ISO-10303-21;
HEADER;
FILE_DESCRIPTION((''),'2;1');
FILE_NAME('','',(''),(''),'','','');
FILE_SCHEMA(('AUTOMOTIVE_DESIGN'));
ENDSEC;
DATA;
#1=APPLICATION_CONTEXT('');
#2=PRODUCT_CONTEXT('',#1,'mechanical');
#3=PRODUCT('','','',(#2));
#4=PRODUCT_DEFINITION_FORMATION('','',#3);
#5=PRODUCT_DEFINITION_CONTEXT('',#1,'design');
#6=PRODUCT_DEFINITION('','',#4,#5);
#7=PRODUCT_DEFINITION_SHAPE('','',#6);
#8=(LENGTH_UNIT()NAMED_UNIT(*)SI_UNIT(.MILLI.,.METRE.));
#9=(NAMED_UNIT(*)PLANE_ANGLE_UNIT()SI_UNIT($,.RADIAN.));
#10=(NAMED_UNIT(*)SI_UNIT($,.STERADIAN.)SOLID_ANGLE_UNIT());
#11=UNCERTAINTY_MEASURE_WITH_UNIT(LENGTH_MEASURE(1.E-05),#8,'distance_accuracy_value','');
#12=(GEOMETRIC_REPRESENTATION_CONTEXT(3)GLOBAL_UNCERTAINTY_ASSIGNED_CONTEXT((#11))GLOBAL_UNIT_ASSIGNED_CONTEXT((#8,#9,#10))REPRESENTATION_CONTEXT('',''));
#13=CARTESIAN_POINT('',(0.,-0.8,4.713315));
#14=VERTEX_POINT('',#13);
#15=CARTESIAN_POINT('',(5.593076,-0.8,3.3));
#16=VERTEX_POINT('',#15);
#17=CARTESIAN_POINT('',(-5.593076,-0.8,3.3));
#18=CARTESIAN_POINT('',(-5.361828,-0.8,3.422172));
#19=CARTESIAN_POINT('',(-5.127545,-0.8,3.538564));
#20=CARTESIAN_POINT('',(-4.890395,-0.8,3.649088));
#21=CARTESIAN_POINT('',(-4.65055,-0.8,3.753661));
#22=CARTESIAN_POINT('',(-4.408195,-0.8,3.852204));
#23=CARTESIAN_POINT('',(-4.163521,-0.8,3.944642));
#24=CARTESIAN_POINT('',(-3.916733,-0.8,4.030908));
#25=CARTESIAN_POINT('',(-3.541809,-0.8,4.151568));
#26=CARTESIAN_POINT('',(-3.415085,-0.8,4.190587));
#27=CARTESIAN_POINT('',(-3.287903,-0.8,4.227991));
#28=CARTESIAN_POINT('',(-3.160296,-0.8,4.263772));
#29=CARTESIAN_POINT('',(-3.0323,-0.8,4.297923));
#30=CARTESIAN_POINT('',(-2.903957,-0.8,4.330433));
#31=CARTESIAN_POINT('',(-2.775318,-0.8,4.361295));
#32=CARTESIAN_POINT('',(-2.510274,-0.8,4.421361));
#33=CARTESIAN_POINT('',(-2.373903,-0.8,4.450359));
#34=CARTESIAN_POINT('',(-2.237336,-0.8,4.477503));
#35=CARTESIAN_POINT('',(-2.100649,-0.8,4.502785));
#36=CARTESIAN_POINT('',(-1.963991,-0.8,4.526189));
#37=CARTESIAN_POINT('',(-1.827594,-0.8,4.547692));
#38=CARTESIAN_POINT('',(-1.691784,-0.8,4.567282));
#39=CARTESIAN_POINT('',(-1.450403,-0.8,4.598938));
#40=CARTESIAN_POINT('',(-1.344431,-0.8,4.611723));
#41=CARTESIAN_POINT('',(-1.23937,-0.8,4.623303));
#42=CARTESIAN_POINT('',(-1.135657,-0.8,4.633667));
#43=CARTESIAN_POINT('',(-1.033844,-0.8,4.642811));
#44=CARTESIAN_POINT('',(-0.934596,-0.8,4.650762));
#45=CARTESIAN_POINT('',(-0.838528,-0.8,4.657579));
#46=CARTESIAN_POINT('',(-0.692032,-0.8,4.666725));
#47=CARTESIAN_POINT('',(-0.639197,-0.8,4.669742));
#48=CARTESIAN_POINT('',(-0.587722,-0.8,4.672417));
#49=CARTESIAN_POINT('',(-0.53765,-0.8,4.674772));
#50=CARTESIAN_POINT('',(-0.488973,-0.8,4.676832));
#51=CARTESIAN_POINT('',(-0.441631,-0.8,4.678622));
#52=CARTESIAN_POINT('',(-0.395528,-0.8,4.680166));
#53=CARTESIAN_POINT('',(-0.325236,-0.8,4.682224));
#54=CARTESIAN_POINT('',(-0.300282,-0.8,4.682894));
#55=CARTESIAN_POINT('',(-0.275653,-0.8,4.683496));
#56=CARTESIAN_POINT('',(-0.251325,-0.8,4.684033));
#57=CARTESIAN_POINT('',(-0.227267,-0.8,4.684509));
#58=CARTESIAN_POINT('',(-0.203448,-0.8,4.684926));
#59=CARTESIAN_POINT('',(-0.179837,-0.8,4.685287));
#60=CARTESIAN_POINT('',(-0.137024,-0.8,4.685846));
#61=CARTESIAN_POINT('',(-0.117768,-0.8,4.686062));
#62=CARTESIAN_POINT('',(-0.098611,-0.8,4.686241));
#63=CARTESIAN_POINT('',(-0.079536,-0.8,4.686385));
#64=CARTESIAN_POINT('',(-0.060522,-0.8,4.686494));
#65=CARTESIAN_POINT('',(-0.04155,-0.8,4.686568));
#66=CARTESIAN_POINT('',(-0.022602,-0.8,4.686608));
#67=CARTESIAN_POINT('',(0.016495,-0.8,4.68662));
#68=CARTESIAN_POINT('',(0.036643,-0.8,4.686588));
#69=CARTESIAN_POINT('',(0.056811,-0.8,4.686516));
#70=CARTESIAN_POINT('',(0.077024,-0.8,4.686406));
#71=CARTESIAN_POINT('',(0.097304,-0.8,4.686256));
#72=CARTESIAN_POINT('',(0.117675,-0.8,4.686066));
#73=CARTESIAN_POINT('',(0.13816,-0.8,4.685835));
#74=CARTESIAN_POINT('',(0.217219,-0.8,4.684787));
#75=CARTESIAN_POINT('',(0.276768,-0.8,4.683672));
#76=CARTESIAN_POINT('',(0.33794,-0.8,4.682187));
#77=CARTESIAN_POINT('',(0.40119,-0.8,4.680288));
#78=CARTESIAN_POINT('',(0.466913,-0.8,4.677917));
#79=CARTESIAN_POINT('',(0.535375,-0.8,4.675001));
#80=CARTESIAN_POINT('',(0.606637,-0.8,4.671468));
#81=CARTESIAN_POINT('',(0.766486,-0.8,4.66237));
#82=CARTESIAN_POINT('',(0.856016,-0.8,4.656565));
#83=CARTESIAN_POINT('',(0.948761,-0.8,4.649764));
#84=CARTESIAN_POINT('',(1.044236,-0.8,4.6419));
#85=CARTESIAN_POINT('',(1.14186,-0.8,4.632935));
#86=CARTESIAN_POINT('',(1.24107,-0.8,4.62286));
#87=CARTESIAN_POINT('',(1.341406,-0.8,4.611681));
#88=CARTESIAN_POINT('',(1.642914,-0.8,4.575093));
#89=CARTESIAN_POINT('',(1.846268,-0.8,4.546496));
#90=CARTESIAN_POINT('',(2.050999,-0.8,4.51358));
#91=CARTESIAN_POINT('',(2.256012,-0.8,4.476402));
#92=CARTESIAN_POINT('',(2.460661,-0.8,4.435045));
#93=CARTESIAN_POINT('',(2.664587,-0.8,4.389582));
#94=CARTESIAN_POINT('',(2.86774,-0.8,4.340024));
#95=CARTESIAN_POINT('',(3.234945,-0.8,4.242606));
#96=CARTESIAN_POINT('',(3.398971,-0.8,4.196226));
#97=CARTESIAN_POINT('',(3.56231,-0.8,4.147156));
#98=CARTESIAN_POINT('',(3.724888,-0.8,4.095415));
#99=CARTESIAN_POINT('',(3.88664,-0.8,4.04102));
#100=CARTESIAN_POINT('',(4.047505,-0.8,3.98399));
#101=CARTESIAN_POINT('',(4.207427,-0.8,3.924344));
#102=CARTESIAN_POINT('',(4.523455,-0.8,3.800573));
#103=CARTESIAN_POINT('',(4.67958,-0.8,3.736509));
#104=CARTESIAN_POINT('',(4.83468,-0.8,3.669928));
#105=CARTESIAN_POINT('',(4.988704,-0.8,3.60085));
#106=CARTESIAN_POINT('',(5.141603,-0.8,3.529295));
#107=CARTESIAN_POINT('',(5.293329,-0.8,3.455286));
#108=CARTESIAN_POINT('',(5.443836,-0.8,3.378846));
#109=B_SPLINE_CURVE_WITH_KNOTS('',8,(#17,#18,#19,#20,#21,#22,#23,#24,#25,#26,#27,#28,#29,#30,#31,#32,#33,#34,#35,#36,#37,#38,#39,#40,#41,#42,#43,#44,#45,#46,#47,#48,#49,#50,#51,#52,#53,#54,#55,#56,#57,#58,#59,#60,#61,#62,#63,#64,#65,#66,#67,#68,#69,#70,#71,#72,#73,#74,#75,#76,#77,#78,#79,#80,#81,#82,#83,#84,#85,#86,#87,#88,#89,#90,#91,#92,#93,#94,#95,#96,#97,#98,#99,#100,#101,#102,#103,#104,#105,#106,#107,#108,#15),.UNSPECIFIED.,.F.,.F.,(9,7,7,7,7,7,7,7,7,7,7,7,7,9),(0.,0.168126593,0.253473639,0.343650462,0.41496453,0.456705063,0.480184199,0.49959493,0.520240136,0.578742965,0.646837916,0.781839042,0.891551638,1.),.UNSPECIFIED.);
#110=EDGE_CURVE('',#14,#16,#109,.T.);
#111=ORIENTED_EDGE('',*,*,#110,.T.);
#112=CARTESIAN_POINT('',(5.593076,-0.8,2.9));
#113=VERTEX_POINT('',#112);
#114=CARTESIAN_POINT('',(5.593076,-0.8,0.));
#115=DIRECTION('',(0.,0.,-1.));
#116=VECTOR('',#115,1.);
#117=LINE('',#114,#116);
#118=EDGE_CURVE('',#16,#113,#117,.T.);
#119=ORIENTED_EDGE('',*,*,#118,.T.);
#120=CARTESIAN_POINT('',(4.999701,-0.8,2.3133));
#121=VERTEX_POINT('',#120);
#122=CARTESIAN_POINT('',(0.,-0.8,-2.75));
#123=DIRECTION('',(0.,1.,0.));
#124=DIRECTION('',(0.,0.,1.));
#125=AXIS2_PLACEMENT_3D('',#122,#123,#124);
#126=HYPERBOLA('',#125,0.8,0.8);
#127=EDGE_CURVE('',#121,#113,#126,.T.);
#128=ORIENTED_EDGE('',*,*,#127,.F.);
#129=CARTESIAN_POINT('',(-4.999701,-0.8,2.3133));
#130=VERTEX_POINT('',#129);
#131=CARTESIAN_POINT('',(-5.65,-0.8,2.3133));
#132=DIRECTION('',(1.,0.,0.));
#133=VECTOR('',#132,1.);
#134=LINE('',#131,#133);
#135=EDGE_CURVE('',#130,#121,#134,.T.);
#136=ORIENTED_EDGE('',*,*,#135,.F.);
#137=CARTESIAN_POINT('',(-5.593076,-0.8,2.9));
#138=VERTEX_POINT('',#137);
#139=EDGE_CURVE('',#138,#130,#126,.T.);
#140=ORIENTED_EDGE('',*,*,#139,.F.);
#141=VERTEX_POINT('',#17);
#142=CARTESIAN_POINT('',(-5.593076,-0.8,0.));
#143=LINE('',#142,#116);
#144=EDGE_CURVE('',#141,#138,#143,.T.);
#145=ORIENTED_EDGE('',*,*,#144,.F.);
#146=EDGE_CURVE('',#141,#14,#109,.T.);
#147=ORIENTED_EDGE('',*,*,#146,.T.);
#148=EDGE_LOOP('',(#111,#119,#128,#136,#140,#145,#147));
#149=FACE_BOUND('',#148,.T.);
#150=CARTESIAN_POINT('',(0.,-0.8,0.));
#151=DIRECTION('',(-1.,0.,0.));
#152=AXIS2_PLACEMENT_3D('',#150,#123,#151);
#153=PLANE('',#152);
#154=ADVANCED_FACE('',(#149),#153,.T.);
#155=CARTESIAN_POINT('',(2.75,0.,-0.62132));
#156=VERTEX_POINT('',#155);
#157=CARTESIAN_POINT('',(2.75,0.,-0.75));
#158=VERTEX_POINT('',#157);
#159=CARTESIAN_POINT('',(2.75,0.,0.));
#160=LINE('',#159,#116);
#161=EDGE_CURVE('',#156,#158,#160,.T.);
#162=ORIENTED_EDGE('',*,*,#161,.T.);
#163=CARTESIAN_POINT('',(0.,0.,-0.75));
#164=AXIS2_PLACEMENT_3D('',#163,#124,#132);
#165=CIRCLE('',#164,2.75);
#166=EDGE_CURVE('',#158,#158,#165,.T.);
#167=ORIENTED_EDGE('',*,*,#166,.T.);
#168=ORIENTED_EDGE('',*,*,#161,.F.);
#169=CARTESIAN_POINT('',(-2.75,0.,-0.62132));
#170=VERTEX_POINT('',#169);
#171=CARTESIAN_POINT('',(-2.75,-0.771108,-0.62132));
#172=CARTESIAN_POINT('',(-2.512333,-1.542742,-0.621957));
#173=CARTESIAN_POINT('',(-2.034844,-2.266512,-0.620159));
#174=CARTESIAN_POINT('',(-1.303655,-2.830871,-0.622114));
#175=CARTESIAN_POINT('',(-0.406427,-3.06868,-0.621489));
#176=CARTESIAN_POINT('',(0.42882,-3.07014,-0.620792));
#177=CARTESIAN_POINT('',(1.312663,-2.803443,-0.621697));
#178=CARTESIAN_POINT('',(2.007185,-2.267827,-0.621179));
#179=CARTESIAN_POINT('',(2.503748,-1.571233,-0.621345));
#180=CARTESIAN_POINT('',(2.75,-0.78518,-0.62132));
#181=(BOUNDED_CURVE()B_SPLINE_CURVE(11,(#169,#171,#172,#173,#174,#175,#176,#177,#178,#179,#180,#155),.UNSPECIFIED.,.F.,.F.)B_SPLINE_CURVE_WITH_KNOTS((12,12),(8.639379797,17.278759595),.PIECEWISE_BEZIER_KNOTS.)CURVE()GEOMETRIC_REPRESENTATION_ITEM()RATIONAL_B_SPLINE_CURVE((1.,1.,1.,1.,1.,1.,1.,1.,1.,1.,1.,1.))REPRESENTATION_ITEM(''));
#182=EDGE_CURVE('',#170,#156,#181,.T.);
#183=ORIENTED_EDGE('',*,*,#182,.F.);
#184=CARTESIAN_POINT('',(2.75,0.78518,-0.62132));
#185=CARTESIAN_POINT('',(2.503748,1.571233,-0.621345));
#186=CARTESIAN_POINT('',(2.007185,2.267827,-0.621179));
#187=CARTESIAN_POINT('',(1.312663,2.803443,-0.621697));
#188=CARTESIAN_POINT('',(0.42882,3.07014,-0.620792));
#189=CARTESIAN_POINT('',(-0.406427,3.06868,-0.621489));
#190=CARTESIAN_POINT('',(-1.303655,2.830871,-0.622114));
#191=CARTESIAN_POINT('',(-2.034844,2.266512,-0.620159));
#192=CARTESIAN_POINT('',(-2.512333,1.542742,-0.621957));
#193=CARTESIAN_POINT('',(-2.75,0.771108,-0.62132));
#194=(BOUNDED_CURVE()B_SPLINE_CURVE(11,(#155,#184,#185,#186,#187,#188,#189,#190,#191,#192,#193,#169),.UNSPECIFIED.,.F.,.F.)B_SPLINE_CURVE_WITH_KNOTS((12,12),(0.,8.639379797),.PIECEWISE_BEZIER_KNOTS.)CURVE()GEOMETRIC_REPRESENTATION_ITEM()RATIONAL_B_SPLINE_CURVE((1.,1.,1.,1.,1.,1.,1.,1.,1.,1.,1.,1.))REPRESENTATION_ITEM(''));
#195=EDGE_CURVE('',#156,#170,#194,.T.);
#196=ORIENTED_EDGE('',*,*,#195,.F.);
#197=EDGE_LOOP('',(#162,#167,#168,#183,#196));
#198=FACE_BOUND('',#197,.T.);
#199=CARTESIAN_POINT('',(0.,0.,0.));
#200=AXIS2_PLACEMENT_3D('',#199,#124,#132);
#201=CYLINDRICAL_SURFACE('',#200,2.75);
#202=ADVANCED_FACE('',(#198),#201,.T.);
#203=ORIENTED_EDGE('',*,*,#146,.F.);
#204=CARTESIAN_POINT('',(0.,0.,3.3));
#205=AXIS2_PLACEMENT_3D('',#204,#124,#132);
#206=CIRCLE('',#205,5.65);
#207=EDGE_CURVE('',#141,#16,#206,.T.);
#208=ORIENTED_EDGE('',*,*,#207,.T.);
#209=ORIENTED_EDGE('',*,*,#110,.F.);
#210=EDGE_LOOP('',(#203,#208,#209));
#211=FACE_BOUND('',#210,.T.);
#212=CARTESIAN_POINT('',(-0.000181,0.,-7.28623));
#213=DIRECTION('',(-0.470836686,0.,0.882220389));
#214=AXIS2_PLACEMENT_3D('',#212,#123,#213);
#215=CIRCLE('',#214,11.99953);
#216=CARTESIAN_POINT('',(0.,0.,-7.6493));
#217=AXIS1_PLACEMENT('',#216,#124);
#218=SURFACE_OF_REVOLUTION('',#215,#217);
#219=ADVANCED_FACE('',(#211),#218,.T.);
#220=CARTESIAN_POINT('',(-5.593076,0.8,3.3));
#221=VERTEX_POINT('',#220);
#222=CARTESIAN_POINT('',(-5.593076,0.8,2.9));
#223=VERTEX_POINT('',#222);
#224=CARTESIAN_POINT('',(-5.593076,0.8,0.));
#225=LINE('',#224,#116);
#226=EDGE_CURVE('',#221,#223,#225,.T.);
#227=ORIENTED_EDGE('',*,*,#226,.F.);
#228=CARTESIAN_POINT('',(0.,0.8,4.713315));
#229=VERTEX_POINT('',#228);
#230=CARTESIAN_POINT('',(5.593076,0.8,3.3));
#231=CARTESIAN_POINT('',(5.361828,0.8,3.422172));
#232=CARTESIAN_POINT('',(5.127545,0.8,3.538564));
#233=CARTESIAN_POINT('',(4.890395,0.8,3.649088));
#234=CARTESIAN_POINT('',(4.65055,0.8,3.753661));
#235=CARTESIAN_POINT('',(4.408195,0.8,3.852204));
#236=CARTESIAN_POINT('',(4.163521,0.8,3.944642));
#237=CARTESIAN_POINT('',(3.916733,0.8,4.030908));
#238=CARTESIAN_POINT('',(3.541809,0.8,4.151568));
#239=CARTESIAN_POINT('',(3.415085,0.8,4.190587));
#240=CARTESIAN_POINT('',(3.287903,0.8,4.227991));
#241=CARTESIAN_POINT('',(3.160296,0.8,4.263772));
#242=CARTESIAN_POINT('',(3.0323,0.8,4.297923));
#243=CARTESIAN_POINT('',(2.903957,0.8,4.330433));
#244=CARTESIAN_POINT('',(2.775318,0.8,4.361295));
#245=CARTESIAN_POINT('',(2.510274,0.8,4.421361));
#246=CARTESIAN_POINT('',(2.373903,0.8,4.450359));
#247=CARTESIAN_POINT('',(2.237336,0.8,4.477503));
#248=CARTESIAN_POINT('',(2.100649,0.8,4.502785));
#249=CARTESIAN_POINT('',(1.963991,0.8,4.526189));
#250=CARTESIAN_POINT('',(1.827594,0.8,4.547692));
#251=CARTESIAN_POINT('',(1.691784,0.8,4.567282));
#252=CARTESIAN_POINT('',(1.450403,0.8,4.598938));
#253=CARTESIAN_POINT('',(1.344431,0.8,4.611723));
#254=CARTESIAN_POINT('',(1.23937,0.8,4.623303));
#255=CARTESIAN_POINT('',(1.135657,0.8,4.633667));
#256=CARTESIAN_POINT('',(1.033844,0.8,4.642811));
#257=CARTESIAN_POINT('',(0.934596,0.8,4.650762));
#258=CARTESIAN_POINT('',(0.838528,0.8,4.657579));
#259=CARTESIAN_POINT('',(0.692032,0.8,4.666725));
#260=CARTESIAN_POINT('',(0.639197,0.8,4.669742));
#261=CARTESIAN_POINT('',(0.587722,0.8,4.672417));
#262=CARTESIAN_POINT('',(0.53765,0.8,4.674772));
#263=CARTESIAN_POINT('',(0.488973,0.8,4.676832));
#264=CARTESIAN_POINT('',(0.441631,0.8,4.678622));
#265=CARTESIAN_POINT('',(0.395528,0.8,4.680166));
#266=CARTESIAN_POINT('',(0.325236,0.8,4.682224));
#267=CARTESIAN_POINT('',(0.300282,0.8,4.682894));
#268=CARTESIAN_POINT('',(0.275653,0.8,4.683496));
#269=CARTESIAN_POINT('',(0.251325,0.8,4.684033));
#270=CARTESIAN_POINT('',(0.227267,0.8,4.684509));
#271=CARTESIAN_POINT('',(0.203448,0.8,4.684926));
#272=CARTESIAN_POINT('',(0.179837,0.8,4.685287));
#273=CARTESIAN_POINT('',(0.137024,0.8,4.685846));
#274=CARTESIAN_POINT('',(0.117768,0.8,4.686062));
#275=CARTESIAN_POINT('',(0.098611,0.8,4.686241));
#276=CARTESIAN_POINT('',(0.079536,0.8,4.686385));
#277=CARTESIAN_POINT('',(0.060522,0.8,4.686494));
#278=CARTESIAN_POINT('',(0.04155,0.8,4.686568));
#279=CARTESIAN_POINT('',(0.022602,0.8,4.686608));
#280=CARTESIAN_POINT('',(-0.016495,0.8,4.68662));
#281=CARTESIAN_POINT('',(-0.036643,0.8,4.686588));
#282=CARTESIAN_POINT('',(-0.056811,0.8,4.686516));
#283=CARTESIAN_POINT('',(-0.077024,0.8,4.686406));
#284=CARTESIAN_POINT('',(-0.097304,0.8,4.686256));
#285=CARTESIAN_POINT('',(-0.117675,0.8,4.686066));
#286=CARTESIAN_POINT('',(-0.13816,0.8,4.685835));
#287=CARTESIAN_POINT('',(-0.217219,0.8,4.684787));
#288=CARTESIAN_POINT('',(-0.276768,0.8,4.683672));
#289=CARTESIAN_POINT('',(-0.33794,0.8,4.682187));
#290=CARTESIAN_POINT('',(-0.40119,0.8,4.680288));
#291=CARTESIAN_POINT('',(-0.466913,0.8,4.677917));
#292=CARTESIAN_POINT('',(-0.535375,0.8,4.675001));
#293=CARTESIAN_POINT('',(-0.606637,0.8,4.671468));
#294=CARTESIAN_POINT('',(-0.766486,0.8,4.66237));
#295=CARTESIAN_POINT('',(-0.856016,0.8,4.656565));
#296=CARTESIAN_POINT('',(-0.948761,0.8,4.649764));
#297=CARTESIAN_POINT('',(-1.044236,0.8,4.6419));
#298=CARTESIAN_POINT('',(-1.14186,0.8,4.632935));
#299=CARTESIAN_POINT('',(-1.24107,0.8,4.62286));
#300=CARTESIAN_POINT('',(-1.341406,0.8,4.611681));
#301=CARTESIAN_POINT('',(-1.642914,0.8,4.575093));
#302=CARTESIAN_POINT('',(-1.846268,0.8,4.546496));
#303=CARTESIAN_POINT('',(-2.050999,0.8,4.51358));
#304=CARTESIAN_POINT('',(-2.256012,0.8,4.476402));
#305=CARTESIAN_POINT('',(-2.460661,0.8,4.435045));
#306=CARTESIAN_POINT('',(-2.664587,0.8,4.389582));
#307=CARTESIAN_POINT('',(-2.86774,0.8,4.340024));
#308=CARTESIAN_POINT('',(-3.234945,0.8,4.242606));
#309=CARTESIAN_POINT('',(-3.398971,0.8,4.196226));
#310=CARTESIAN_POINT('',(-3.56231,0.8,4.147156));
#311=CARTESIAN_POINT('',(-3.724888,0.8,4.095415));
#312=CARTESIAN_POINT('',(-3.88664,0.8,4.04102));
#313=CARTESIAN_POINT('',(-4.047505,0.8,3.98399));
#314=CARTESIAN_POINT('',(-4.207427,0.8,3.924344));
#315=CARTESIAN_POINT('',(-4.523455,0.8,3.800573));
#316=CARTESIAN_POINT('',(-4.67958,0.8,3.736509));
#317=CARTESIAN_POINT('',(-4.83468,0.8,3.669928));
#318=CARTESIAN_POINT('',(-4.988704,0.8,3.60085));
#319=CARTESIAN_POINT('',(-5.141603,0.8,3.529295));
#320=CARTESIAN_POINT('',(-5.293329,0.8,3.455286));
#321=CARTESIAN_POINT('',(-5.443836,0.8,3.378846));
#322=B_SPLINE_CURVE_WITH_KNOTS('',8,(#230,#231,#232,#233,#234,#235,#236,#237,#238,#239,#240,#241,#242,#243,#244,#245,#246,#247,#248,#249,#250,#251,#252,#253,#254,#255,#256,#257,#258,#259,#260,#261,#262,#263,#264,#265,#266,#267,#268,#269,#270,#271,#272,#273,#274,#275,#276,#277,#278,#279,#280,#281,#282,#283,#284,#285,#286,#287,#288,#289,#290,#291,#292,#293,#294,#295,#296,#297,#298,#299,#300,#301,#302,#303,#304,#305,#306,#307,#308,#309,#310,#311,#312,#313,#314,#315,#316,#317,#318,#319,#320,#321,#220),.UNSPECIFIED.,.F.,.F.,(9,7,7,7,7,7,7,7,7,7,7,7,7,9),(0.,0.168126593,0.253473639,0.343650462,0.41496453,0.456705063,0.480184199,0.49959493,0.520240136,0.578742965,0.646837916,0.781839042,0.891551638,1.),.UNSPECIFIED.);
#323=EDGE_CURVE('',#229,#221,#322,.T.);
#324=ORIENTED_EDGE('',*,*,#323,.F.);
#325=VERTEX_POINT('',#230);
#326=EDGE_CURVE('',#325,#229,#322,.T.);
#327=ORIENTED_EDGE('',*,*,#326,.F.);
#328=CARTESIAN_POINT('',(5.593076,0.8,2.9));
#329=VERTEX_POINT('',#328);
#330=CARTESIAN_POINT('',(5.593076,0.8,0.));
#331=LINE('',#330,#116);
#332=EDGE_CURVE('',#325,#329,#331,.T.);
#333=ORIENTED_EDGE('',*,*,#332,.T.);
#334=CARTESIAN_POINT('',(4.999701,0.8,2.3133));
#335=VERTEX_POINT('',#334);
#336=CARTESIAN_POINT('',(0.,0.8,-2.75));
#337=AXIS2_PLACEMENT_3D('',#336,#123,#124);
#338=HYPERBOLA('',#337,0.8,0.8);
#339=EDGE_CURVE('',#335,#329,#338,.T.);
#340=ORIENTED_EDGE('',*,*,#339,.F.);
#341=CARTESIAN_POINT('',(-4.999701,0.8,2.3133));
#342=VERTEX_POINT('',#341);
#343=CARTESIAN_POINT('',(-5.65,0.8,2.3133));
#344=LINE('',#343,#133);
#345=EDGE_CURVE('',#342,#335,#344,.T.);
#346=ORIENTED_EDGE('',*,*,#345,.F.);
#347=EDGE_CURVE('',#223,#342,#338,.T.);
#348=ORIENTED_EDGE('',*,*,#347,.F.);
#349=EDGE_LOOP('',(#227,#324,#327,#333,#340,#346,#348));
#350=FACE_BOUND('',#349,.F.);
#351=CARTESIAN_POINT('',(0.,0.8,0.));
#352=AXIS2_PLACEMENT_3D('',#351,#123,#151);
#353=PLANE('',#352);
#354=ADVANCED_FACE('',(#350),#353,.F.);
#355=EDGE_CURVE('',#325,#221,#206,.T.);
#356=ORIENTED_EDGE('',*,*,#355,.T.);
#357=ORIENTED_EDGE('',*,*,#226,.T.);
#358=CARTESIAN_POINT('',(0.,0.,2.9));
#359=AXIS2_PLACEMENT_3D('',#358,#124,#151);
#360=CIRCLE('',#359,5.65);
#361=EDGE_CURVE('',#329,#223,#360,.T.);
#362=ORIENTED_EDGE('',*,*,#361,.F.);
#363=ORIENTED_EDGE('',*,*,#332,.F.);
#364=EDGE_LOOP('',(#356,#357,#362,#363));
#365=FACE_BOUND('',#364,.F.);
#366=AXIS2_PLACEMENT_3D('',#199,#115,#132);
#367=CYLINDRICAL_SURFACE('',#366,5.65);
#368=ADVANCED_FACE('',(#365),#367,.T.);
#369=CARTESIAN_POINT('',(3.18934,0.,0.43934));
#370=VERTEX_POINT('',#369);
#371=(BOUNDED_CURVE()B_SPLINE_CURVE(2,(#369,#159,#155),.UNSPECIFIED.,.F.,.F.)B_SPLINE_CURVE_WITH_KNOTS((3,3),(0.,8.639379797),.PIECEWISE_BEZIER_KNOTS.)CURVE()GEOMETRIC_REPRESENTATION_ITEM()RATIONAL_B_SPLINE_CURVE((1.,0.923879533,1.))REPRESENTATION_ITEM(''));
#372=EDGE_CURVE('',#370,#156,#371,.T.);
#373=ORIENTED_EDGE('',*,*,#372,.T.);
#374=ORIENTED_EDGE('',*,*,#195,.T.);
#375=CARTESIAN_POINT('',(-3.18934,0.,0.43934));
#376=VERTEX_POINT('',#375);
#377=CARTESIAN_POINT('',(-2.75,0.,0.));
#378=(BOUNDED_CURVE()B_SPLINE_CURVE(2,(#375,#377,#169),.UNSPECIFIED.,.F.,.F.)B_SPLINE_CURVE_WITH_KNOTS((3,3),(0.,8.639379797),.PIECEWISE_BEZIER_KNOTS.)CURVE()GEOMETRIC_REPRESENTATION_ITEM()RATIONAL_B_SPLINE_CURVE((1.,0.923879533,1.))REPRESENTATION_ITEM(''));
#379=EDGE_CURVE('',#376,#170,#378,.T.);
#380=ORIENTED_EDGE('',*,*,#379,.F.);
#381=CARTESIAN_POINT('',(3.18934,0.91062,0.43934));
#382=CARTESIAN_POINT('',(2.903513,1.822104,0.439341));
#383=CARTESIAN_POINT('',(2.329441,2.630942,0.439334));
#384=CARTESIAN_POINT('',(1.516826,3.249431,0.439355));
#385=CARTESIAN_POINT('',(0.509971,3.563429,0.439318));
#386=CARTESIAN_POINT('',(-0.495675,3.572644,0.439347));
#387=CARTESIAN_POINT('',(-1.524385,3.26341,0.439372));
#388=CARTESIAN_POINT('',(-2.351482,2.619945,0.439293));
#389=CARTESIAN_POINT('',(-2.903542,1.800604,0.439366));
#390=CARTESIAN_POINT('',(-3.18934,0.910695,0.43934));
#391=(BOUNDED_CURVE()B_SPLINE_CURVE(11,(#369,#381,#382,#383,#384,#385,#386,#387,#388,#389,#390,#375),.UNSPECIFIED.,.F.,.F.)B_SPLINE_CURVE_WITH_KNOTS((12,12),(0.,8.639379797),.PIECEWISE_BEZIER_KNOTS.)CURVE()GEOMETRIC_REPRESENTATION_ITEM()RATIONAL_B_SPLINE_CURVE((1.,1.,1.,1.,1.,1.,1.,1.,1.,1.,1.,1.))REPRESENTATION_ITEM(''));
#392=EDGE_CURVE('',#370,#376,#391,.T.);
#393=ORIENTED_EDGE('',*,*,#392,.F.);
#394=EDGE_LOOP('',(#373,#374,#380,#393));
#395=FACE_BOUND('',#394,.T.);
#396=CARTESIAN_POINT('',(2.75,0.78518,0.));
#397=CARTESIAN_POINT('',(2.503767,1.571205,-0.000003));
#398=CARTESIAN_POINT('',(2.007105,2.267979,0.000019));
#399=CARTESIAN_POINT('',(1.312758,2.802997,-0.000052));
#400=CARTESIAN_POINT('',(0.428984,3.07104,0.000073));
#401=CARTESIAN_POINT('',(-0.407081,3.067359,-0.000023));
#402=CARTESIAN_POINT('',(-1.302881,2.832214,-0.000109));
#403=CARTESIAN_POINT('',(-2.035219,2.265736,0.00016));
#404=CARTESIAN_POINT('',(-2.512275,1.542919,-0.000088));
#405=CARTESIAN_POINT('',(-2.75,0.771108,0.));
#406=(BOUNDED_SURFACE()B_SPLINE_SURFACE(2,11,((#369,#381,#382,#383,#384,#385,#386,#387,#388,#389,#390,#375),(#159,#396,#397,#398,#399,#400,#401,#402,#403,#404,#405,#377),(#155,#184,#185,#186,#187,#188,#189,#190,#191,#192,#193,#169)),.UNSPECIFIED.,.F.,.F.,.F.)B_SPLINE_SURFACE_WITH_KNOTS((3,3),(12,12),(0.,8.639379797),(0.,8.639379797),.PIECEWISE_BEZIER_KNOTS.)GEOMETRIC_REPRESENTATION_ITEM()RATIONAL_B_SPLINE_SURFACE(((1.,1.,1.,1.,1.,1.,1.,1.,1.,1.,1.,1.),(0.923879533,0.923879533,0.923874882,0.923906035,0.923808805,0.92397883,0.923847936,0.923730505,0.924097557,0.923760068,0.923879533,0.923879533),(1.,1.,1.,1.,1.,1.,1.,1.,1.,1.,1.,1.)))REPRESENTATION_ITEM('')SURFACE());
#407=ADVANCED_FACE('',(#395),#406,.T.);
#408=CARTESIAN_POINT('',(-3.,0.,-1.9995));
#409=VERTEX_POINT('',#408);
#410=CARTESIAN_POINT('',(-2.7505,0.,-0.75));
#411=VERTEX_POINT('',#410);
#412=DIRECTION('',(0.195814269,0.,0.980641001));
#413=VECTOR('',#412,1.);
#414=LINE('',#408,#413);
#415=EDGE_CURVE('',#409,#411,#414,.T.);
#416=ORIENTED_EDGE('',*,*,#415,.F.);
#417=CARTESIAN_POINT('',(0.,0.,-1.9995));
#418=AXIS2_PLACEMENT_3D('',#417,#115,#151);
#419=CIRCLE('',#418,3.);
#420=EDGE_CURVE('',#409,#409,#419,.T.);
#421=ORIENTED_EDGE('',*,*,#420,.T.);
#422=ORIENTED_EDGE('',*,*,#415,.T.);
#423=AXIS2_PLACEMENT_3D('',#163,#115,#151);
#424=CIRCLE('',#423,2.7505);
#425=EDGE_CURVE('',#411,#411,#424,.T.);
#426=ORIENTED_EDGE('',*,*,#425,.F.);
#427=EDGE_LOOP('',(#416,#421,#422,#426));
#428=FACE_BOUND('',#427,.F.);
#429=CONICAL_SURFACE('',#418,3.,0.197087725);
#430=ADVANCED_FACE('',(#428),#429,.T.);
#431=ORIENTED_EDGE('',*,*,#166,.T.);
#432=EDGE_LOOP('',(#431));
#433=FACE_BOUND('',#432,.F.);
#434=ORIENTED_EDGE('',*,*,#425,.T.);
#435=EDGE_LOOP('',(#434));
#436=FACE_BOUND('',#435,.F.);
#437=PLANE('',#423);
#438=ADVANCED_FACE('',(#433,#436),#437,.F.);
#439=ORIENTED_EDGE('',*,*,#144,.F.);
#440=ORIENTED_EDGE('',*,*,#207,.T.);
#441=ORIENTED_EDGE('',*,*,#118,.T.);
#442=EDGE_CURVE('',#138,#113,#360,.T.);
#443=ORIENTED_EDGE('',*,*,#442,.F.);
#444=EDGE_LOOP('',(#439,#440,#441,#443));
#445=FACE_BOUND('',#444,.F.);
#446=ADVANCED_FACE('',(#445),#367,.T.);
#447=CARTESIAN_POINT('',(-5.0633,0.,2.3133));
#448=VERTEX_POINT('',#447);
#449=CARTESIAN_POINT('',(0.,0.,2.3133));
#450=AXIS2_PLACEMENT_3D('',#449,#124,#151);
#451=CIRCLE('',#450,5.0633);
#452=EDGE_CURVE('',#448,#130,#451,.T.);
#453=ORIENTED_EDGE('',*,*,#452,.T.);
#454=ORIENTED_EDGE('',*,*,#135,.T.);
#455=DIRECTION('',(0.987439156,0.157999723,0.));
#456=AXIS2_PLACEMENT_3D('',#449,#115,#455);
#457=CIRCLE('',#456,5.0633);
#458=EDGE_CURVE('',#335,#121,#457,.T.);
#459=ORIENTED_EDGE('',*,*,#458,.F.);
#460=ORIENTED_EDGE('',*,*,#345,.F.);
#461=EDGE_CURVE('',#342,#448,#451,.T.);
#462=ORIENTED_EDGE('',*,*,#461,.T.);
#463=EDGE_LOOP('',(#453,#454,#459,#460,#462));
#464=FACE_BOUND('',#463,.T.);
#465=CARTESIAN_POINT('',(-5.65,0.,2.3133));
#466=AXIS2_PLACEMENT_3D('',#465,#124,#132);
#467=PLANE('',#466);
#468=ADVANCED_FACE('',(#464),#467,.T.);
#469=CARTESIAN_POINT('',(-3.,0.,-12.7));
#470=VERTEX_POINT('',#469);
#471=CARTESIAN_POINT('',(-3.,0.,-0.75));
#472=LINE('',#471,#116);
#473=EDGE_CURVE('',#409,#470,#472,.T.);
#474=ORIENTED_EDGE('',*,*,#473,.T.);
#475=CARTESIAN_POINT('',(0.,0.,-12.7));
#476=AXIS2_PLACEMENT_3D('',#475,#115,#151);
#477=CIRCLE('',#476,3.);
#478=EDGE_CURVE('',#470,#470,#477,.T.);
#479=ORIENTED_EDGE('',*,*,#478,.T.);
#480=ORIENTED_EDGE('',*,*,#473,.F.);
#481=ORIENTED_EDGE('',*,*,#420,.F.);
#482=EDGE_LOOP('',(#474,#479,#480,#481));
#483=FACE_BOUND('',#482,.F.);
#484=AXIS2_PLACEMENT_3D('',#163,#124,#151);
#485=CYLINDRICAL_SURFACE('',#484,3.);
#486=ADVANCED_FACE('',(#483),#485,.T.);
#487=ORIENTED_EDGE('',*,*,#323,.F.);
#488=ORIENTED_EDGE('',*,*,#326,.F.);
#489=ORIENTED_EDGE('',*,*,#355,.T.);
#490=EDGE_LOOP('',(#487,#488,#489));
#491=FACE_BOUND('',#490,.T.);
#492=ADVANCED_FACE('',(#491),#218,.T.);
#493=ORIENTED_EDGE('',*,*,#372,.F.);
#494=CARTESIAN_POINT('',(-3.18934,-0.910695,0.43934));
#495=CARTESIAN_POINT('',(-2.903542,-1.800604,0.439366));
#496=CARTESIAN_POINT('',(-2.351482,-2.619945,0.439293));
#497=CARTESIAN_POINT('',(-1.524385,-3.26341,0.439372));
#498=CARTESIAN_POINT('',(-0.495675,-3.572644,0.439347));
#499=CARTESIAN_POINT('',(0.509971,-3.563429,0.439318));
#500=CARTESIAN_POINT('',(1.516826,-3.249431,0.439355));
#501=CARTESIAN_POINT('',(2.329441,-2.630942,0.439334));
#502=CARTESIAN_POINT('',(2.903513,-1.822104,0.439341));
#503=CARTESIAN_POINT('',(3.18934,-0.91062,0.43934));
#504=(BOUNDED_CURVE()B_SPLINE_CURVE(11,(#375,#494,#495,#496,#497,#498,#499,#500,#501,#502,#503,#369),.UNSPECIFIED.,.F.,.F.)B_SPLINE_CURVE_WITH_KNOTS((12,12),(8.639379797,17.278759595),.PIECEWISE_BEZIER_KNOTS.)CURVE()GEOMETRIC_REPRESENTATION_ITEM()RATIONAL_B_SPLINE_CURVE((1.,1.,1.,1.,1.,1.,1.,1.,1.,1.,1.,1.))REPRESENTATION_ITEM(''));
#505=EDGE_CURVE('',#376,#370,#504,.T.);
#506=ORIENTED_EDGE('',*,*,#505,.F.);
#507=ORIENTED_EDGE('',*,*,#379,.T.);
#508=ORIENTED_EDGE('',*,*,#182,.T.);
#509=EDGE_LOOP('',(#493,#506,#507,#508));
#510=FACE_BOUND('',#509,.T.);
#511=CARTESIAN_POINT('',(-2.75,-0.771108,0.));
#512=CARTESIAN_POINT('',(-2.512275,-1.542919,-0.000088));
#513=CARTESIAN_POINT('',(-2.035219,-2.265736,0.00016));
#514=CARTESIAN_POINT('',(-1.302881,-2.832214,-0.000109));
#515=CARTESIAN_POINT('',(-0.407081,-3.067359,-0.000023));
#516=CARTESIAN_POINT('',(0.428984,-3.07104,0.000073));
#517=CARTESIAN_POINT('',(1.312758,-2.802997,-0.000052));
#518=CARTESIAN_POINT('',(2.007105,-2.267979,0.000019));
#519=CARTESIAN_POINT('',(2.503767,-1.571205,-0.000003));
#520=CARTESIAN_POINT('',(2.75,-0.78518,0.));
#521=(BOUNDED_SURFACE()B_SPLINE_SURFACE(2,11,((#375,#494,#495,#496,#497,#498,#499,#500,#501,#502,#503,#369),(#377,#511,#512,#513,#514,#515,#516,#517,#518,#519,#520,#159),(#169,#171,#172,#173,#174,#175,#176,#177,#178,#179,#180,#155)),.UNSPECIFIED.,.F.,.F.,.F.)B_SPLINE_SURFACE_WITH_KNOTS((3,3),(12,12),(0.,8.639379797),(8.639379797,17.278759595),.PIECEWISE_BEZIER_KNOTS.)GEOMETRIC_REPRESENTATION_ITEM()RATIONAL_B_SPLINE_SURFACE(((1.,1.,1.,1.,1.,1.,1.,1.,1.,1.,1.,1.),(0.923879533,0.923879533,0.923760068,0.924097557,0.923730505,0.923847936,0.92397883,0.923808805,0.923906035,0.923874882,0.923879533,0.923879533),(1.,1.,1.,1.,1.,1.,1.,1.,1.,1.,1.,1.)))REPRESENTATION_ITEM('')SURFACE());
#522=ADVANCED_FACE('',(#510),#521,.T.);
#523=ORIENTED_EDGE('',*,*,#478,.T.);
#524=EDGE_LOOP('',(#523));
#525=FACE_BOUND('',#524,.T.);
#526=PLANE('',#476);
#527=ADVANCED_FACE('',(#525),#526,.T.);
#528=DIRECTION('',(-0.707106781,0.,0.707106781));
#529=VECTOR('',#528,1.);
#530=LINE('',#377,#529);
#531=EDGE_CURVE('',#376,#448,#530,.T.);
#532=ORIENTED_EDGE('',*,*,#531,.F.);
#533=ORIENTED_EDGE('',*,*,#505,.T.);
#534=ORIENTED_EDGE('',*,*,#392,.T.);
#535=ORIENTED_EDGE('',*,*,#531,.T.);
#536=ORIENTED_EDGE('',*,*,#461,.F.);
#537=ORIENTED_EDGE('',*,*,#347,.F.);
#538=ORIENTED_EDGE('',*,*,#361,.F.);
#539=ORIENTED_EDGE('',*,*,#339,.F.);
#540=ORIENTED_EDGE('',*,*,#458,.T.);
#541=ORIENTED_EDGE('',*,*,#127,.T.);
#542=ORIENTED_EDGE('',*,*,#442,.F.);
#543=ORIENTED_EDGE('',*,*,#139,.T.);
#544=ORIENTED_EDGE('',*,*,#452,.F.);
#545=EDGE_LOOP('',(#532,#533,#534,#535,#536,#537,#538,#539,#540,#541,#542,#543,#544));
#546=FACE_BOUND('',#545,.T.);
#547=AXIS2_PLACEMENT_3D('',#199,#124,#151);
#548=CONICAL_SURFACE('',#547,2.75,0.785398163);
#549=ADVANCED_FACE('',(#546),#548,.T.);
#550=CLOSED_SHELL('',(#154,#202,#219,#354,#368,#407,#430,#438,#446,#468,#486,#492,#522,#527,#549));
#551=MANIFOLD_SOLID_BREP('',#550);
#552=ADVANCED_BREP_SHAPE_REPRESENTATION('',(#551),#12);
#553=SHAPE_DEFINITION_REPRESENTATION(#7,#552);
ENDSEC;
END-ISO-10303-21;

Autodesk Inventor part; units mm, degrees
ref_plane "WorkPlane11" through (0, 0, 0) normal (0, 0, 1) x (1, 0, 0)
ref_plane "Work Plane2" through (0, 0, -5.7) normal (0, 0, 1) x (1, 0, 0)
ref_plane "WorkPlane9" through (0, 0, 8.3) normal (0, 0, 1) x (1, 0, 0)
sketch "Sketch1" plane through (0, 0, 0) normal (0, 0, 1) x (1, 0, 0)
  point P0 (0, 0)
sketch "Sketch2" plane through (0, 0, 0) normal (0, 0, 1) x (1, 0, 0)
  circle A0 centre (0, 0) radius 2.75
  dimension "d2" = 5.5
extrude "Extrusion1" add sketch "Sketch2" against normal blind 0.75
sketch "Sketch3" plane through (0, 0, -0.75) normal (0, 0, -1) x (-1, 0, 0)
  circle A0 centre (0, 0) radius 3
  circle A1 centre (0, 0) radius 2.75 construction
  dimension "d8" = 6
extrude "Extrusion2" add sketch "Sketch3" along normal blind 11.95
sketch "Sketch4" plane through (0, 0, 0) normal (0, 0, 1) x (1, 0, 0)
  circle A0 centre (0, 0) radius 5.65
  circle A1 centre (0, 0) radius 2.75 construction
  dimension "d12" = 11.3
extrude "Extrusion3" add sketch "Sketch4" along normal blind 3.3
sketch "Sketch5" plane through (0, 0, 0) normal (0, 1, 0) x (-1, 0, 0)
  line L0 (5.65, 0) -> (2.75, 0)
  line L1 (5.65, 2.9) -> (5.65, 0)
  line L2 (2.75, 0) -> (5.65, 2.9)
  line L3 (-5.65, 0) -> (5.65, 0) construction
  line L4 (0, -7.6493) -> (0, 5.8993)
  line L5 (0, -10.359) -> (0, 8.609) projected
  line L6 (5.65, 0) -> (5.65, 3.3) projected
  line L7 (-4.75, 0) -> (4.75, 0) projected
  line L8 (2.75, 0) -> (2.75, -0.75) projected
  dimension "d17" = 45
revolve "Revolution1" cut sketch "Sketch5" angle 360 about axis through (0, 0, -7.6493) along (0, 0, 1)
sketch "Sketch6" plane through (0, 0, 0) normal (0, 1, 0) x (-1, 0, 0)
  line L0 (0, 3.3) -> (0, 4.7133)
  line L1 (0, 3.3) -> (5.65, 3.3)
  arc A0 (5.65, 3.3) -> (0, 4.7133) centre (0, -7.2867) ccw
  line L2 (-5.65, 3.3) -> (5.65, 3.3) construction
  line L3 (0, -7.6493) -> (0, 5.8993)
  line L4 (0, -10.359) -> (0, 8.609) projected
  line L5 (5.65, 2.9) -> (5.65, 3.3) projected
  arc A1 (0, 4.7133) -> (-5.65, 3.3) centre (0, -7.2867) ccw
  dimension "d20" = 12
  dimension "d24" = 5.65
revolve "Revolution2" add sketch "Sketch6" angle 360 about axis through (0, 0, -7.6493) along (0, 0, 1)
fillet "Fillet1" radius 1.5 2 edges at (0, 2.75, 0) (0, -2.75, 0)
chamfer "Chamfer1" distance 1.25 distance2 0.25 1 edges at (3, 0, -0.75) measured on face at (-2.9903, -0.2414, -8.7167)
sketch "Sketch8" plane through (0, 0, 0) normal (0, 1, 0) x (-1, 0, 0)
  line L0 (-5.65, 4.7133) -> (5.65, 4.7133)
  line L1 (5.65, 4.7133) -> (5.65, 2.3133)
  line L2 (5.65, 2.3133) -> (-5.65, 2.3133)
  line L3 (-5.65, 2.3133) -> (-5.65, 4.7133)
  arc A0 (5.65, 3.3) -> (-5.65, 3.3) centre (0, -7.2867) ccw projected
  line L4 (-5.65, 2.9) -> (-5.65, 3.3) projected
  line L5 (5.65, 2.9) -> (5.65, 3.3) projected
  dimension "msp_d31" = 2.4
extrude "Extrusion4" cut sketch "Sketch8" against normal mid plane 1.6
thread "Thread1" size "M6x1" class "6g" standard "ISO Metric profile" full length
ref_plane "MSC_PF1" through (0, 0, 0) normal (1, 0, 0) x (0, 1, 0)
ref_plane "MSC_PT1" through (-5.65, 0, 2.9) normal (0, 0, -1) x (-1, 0, 0)
equation "\"d28\" = r"
equation "\"d29\" = msp_x"
equation "\"d30\" = 0.25 * PTC"
equation "\"d3\" = -msp_x + ParA"
equation "\"d8\" = NND"
equation "\"d9\" = msp_x - ParK + NLG - ParA"
equation "\"d12\" = Dk"
equation "\"d13\" = ParK"
equation "\"msp_d31\" = ParT"
equation "\"msp_d32\" = ParN"
equation "\"d2\" = 0.5 * PTC + msp_mdtds"
equation "\"d20\" = rf"
equation "\"d24\" = 0.5 * Dk"
equation "\"PTC\" = 1"
equation "\"NND\" = 6"
equation "\"msp_x\" = 1.25 * PTC"
equation "\"NLG\" = 16"
equation "\"msp_mdtds\" = NND - PTC"
equation "\"ParK\" = 3.3"
equation "\"ParN\" = 1.6"
equation "\"ParT\" = 2.4"
equation "\"r\" = 1.5"
equation "\"prf_c\" = 0"
equation "\"ParA\" = 2"
equation "\"Dk\" = 11.3"
equation "\"rf\" = 12"
equation "\"ParF\" = 1.4"
equation "\"THREADDIA\" = NND"
equation "\"PG\" = 1.2345"
equation "\"TEMPLATE\" = 1.2345"
properties part number "ISO 2010 - M6x16" material "Stainless Steel, 440C"
